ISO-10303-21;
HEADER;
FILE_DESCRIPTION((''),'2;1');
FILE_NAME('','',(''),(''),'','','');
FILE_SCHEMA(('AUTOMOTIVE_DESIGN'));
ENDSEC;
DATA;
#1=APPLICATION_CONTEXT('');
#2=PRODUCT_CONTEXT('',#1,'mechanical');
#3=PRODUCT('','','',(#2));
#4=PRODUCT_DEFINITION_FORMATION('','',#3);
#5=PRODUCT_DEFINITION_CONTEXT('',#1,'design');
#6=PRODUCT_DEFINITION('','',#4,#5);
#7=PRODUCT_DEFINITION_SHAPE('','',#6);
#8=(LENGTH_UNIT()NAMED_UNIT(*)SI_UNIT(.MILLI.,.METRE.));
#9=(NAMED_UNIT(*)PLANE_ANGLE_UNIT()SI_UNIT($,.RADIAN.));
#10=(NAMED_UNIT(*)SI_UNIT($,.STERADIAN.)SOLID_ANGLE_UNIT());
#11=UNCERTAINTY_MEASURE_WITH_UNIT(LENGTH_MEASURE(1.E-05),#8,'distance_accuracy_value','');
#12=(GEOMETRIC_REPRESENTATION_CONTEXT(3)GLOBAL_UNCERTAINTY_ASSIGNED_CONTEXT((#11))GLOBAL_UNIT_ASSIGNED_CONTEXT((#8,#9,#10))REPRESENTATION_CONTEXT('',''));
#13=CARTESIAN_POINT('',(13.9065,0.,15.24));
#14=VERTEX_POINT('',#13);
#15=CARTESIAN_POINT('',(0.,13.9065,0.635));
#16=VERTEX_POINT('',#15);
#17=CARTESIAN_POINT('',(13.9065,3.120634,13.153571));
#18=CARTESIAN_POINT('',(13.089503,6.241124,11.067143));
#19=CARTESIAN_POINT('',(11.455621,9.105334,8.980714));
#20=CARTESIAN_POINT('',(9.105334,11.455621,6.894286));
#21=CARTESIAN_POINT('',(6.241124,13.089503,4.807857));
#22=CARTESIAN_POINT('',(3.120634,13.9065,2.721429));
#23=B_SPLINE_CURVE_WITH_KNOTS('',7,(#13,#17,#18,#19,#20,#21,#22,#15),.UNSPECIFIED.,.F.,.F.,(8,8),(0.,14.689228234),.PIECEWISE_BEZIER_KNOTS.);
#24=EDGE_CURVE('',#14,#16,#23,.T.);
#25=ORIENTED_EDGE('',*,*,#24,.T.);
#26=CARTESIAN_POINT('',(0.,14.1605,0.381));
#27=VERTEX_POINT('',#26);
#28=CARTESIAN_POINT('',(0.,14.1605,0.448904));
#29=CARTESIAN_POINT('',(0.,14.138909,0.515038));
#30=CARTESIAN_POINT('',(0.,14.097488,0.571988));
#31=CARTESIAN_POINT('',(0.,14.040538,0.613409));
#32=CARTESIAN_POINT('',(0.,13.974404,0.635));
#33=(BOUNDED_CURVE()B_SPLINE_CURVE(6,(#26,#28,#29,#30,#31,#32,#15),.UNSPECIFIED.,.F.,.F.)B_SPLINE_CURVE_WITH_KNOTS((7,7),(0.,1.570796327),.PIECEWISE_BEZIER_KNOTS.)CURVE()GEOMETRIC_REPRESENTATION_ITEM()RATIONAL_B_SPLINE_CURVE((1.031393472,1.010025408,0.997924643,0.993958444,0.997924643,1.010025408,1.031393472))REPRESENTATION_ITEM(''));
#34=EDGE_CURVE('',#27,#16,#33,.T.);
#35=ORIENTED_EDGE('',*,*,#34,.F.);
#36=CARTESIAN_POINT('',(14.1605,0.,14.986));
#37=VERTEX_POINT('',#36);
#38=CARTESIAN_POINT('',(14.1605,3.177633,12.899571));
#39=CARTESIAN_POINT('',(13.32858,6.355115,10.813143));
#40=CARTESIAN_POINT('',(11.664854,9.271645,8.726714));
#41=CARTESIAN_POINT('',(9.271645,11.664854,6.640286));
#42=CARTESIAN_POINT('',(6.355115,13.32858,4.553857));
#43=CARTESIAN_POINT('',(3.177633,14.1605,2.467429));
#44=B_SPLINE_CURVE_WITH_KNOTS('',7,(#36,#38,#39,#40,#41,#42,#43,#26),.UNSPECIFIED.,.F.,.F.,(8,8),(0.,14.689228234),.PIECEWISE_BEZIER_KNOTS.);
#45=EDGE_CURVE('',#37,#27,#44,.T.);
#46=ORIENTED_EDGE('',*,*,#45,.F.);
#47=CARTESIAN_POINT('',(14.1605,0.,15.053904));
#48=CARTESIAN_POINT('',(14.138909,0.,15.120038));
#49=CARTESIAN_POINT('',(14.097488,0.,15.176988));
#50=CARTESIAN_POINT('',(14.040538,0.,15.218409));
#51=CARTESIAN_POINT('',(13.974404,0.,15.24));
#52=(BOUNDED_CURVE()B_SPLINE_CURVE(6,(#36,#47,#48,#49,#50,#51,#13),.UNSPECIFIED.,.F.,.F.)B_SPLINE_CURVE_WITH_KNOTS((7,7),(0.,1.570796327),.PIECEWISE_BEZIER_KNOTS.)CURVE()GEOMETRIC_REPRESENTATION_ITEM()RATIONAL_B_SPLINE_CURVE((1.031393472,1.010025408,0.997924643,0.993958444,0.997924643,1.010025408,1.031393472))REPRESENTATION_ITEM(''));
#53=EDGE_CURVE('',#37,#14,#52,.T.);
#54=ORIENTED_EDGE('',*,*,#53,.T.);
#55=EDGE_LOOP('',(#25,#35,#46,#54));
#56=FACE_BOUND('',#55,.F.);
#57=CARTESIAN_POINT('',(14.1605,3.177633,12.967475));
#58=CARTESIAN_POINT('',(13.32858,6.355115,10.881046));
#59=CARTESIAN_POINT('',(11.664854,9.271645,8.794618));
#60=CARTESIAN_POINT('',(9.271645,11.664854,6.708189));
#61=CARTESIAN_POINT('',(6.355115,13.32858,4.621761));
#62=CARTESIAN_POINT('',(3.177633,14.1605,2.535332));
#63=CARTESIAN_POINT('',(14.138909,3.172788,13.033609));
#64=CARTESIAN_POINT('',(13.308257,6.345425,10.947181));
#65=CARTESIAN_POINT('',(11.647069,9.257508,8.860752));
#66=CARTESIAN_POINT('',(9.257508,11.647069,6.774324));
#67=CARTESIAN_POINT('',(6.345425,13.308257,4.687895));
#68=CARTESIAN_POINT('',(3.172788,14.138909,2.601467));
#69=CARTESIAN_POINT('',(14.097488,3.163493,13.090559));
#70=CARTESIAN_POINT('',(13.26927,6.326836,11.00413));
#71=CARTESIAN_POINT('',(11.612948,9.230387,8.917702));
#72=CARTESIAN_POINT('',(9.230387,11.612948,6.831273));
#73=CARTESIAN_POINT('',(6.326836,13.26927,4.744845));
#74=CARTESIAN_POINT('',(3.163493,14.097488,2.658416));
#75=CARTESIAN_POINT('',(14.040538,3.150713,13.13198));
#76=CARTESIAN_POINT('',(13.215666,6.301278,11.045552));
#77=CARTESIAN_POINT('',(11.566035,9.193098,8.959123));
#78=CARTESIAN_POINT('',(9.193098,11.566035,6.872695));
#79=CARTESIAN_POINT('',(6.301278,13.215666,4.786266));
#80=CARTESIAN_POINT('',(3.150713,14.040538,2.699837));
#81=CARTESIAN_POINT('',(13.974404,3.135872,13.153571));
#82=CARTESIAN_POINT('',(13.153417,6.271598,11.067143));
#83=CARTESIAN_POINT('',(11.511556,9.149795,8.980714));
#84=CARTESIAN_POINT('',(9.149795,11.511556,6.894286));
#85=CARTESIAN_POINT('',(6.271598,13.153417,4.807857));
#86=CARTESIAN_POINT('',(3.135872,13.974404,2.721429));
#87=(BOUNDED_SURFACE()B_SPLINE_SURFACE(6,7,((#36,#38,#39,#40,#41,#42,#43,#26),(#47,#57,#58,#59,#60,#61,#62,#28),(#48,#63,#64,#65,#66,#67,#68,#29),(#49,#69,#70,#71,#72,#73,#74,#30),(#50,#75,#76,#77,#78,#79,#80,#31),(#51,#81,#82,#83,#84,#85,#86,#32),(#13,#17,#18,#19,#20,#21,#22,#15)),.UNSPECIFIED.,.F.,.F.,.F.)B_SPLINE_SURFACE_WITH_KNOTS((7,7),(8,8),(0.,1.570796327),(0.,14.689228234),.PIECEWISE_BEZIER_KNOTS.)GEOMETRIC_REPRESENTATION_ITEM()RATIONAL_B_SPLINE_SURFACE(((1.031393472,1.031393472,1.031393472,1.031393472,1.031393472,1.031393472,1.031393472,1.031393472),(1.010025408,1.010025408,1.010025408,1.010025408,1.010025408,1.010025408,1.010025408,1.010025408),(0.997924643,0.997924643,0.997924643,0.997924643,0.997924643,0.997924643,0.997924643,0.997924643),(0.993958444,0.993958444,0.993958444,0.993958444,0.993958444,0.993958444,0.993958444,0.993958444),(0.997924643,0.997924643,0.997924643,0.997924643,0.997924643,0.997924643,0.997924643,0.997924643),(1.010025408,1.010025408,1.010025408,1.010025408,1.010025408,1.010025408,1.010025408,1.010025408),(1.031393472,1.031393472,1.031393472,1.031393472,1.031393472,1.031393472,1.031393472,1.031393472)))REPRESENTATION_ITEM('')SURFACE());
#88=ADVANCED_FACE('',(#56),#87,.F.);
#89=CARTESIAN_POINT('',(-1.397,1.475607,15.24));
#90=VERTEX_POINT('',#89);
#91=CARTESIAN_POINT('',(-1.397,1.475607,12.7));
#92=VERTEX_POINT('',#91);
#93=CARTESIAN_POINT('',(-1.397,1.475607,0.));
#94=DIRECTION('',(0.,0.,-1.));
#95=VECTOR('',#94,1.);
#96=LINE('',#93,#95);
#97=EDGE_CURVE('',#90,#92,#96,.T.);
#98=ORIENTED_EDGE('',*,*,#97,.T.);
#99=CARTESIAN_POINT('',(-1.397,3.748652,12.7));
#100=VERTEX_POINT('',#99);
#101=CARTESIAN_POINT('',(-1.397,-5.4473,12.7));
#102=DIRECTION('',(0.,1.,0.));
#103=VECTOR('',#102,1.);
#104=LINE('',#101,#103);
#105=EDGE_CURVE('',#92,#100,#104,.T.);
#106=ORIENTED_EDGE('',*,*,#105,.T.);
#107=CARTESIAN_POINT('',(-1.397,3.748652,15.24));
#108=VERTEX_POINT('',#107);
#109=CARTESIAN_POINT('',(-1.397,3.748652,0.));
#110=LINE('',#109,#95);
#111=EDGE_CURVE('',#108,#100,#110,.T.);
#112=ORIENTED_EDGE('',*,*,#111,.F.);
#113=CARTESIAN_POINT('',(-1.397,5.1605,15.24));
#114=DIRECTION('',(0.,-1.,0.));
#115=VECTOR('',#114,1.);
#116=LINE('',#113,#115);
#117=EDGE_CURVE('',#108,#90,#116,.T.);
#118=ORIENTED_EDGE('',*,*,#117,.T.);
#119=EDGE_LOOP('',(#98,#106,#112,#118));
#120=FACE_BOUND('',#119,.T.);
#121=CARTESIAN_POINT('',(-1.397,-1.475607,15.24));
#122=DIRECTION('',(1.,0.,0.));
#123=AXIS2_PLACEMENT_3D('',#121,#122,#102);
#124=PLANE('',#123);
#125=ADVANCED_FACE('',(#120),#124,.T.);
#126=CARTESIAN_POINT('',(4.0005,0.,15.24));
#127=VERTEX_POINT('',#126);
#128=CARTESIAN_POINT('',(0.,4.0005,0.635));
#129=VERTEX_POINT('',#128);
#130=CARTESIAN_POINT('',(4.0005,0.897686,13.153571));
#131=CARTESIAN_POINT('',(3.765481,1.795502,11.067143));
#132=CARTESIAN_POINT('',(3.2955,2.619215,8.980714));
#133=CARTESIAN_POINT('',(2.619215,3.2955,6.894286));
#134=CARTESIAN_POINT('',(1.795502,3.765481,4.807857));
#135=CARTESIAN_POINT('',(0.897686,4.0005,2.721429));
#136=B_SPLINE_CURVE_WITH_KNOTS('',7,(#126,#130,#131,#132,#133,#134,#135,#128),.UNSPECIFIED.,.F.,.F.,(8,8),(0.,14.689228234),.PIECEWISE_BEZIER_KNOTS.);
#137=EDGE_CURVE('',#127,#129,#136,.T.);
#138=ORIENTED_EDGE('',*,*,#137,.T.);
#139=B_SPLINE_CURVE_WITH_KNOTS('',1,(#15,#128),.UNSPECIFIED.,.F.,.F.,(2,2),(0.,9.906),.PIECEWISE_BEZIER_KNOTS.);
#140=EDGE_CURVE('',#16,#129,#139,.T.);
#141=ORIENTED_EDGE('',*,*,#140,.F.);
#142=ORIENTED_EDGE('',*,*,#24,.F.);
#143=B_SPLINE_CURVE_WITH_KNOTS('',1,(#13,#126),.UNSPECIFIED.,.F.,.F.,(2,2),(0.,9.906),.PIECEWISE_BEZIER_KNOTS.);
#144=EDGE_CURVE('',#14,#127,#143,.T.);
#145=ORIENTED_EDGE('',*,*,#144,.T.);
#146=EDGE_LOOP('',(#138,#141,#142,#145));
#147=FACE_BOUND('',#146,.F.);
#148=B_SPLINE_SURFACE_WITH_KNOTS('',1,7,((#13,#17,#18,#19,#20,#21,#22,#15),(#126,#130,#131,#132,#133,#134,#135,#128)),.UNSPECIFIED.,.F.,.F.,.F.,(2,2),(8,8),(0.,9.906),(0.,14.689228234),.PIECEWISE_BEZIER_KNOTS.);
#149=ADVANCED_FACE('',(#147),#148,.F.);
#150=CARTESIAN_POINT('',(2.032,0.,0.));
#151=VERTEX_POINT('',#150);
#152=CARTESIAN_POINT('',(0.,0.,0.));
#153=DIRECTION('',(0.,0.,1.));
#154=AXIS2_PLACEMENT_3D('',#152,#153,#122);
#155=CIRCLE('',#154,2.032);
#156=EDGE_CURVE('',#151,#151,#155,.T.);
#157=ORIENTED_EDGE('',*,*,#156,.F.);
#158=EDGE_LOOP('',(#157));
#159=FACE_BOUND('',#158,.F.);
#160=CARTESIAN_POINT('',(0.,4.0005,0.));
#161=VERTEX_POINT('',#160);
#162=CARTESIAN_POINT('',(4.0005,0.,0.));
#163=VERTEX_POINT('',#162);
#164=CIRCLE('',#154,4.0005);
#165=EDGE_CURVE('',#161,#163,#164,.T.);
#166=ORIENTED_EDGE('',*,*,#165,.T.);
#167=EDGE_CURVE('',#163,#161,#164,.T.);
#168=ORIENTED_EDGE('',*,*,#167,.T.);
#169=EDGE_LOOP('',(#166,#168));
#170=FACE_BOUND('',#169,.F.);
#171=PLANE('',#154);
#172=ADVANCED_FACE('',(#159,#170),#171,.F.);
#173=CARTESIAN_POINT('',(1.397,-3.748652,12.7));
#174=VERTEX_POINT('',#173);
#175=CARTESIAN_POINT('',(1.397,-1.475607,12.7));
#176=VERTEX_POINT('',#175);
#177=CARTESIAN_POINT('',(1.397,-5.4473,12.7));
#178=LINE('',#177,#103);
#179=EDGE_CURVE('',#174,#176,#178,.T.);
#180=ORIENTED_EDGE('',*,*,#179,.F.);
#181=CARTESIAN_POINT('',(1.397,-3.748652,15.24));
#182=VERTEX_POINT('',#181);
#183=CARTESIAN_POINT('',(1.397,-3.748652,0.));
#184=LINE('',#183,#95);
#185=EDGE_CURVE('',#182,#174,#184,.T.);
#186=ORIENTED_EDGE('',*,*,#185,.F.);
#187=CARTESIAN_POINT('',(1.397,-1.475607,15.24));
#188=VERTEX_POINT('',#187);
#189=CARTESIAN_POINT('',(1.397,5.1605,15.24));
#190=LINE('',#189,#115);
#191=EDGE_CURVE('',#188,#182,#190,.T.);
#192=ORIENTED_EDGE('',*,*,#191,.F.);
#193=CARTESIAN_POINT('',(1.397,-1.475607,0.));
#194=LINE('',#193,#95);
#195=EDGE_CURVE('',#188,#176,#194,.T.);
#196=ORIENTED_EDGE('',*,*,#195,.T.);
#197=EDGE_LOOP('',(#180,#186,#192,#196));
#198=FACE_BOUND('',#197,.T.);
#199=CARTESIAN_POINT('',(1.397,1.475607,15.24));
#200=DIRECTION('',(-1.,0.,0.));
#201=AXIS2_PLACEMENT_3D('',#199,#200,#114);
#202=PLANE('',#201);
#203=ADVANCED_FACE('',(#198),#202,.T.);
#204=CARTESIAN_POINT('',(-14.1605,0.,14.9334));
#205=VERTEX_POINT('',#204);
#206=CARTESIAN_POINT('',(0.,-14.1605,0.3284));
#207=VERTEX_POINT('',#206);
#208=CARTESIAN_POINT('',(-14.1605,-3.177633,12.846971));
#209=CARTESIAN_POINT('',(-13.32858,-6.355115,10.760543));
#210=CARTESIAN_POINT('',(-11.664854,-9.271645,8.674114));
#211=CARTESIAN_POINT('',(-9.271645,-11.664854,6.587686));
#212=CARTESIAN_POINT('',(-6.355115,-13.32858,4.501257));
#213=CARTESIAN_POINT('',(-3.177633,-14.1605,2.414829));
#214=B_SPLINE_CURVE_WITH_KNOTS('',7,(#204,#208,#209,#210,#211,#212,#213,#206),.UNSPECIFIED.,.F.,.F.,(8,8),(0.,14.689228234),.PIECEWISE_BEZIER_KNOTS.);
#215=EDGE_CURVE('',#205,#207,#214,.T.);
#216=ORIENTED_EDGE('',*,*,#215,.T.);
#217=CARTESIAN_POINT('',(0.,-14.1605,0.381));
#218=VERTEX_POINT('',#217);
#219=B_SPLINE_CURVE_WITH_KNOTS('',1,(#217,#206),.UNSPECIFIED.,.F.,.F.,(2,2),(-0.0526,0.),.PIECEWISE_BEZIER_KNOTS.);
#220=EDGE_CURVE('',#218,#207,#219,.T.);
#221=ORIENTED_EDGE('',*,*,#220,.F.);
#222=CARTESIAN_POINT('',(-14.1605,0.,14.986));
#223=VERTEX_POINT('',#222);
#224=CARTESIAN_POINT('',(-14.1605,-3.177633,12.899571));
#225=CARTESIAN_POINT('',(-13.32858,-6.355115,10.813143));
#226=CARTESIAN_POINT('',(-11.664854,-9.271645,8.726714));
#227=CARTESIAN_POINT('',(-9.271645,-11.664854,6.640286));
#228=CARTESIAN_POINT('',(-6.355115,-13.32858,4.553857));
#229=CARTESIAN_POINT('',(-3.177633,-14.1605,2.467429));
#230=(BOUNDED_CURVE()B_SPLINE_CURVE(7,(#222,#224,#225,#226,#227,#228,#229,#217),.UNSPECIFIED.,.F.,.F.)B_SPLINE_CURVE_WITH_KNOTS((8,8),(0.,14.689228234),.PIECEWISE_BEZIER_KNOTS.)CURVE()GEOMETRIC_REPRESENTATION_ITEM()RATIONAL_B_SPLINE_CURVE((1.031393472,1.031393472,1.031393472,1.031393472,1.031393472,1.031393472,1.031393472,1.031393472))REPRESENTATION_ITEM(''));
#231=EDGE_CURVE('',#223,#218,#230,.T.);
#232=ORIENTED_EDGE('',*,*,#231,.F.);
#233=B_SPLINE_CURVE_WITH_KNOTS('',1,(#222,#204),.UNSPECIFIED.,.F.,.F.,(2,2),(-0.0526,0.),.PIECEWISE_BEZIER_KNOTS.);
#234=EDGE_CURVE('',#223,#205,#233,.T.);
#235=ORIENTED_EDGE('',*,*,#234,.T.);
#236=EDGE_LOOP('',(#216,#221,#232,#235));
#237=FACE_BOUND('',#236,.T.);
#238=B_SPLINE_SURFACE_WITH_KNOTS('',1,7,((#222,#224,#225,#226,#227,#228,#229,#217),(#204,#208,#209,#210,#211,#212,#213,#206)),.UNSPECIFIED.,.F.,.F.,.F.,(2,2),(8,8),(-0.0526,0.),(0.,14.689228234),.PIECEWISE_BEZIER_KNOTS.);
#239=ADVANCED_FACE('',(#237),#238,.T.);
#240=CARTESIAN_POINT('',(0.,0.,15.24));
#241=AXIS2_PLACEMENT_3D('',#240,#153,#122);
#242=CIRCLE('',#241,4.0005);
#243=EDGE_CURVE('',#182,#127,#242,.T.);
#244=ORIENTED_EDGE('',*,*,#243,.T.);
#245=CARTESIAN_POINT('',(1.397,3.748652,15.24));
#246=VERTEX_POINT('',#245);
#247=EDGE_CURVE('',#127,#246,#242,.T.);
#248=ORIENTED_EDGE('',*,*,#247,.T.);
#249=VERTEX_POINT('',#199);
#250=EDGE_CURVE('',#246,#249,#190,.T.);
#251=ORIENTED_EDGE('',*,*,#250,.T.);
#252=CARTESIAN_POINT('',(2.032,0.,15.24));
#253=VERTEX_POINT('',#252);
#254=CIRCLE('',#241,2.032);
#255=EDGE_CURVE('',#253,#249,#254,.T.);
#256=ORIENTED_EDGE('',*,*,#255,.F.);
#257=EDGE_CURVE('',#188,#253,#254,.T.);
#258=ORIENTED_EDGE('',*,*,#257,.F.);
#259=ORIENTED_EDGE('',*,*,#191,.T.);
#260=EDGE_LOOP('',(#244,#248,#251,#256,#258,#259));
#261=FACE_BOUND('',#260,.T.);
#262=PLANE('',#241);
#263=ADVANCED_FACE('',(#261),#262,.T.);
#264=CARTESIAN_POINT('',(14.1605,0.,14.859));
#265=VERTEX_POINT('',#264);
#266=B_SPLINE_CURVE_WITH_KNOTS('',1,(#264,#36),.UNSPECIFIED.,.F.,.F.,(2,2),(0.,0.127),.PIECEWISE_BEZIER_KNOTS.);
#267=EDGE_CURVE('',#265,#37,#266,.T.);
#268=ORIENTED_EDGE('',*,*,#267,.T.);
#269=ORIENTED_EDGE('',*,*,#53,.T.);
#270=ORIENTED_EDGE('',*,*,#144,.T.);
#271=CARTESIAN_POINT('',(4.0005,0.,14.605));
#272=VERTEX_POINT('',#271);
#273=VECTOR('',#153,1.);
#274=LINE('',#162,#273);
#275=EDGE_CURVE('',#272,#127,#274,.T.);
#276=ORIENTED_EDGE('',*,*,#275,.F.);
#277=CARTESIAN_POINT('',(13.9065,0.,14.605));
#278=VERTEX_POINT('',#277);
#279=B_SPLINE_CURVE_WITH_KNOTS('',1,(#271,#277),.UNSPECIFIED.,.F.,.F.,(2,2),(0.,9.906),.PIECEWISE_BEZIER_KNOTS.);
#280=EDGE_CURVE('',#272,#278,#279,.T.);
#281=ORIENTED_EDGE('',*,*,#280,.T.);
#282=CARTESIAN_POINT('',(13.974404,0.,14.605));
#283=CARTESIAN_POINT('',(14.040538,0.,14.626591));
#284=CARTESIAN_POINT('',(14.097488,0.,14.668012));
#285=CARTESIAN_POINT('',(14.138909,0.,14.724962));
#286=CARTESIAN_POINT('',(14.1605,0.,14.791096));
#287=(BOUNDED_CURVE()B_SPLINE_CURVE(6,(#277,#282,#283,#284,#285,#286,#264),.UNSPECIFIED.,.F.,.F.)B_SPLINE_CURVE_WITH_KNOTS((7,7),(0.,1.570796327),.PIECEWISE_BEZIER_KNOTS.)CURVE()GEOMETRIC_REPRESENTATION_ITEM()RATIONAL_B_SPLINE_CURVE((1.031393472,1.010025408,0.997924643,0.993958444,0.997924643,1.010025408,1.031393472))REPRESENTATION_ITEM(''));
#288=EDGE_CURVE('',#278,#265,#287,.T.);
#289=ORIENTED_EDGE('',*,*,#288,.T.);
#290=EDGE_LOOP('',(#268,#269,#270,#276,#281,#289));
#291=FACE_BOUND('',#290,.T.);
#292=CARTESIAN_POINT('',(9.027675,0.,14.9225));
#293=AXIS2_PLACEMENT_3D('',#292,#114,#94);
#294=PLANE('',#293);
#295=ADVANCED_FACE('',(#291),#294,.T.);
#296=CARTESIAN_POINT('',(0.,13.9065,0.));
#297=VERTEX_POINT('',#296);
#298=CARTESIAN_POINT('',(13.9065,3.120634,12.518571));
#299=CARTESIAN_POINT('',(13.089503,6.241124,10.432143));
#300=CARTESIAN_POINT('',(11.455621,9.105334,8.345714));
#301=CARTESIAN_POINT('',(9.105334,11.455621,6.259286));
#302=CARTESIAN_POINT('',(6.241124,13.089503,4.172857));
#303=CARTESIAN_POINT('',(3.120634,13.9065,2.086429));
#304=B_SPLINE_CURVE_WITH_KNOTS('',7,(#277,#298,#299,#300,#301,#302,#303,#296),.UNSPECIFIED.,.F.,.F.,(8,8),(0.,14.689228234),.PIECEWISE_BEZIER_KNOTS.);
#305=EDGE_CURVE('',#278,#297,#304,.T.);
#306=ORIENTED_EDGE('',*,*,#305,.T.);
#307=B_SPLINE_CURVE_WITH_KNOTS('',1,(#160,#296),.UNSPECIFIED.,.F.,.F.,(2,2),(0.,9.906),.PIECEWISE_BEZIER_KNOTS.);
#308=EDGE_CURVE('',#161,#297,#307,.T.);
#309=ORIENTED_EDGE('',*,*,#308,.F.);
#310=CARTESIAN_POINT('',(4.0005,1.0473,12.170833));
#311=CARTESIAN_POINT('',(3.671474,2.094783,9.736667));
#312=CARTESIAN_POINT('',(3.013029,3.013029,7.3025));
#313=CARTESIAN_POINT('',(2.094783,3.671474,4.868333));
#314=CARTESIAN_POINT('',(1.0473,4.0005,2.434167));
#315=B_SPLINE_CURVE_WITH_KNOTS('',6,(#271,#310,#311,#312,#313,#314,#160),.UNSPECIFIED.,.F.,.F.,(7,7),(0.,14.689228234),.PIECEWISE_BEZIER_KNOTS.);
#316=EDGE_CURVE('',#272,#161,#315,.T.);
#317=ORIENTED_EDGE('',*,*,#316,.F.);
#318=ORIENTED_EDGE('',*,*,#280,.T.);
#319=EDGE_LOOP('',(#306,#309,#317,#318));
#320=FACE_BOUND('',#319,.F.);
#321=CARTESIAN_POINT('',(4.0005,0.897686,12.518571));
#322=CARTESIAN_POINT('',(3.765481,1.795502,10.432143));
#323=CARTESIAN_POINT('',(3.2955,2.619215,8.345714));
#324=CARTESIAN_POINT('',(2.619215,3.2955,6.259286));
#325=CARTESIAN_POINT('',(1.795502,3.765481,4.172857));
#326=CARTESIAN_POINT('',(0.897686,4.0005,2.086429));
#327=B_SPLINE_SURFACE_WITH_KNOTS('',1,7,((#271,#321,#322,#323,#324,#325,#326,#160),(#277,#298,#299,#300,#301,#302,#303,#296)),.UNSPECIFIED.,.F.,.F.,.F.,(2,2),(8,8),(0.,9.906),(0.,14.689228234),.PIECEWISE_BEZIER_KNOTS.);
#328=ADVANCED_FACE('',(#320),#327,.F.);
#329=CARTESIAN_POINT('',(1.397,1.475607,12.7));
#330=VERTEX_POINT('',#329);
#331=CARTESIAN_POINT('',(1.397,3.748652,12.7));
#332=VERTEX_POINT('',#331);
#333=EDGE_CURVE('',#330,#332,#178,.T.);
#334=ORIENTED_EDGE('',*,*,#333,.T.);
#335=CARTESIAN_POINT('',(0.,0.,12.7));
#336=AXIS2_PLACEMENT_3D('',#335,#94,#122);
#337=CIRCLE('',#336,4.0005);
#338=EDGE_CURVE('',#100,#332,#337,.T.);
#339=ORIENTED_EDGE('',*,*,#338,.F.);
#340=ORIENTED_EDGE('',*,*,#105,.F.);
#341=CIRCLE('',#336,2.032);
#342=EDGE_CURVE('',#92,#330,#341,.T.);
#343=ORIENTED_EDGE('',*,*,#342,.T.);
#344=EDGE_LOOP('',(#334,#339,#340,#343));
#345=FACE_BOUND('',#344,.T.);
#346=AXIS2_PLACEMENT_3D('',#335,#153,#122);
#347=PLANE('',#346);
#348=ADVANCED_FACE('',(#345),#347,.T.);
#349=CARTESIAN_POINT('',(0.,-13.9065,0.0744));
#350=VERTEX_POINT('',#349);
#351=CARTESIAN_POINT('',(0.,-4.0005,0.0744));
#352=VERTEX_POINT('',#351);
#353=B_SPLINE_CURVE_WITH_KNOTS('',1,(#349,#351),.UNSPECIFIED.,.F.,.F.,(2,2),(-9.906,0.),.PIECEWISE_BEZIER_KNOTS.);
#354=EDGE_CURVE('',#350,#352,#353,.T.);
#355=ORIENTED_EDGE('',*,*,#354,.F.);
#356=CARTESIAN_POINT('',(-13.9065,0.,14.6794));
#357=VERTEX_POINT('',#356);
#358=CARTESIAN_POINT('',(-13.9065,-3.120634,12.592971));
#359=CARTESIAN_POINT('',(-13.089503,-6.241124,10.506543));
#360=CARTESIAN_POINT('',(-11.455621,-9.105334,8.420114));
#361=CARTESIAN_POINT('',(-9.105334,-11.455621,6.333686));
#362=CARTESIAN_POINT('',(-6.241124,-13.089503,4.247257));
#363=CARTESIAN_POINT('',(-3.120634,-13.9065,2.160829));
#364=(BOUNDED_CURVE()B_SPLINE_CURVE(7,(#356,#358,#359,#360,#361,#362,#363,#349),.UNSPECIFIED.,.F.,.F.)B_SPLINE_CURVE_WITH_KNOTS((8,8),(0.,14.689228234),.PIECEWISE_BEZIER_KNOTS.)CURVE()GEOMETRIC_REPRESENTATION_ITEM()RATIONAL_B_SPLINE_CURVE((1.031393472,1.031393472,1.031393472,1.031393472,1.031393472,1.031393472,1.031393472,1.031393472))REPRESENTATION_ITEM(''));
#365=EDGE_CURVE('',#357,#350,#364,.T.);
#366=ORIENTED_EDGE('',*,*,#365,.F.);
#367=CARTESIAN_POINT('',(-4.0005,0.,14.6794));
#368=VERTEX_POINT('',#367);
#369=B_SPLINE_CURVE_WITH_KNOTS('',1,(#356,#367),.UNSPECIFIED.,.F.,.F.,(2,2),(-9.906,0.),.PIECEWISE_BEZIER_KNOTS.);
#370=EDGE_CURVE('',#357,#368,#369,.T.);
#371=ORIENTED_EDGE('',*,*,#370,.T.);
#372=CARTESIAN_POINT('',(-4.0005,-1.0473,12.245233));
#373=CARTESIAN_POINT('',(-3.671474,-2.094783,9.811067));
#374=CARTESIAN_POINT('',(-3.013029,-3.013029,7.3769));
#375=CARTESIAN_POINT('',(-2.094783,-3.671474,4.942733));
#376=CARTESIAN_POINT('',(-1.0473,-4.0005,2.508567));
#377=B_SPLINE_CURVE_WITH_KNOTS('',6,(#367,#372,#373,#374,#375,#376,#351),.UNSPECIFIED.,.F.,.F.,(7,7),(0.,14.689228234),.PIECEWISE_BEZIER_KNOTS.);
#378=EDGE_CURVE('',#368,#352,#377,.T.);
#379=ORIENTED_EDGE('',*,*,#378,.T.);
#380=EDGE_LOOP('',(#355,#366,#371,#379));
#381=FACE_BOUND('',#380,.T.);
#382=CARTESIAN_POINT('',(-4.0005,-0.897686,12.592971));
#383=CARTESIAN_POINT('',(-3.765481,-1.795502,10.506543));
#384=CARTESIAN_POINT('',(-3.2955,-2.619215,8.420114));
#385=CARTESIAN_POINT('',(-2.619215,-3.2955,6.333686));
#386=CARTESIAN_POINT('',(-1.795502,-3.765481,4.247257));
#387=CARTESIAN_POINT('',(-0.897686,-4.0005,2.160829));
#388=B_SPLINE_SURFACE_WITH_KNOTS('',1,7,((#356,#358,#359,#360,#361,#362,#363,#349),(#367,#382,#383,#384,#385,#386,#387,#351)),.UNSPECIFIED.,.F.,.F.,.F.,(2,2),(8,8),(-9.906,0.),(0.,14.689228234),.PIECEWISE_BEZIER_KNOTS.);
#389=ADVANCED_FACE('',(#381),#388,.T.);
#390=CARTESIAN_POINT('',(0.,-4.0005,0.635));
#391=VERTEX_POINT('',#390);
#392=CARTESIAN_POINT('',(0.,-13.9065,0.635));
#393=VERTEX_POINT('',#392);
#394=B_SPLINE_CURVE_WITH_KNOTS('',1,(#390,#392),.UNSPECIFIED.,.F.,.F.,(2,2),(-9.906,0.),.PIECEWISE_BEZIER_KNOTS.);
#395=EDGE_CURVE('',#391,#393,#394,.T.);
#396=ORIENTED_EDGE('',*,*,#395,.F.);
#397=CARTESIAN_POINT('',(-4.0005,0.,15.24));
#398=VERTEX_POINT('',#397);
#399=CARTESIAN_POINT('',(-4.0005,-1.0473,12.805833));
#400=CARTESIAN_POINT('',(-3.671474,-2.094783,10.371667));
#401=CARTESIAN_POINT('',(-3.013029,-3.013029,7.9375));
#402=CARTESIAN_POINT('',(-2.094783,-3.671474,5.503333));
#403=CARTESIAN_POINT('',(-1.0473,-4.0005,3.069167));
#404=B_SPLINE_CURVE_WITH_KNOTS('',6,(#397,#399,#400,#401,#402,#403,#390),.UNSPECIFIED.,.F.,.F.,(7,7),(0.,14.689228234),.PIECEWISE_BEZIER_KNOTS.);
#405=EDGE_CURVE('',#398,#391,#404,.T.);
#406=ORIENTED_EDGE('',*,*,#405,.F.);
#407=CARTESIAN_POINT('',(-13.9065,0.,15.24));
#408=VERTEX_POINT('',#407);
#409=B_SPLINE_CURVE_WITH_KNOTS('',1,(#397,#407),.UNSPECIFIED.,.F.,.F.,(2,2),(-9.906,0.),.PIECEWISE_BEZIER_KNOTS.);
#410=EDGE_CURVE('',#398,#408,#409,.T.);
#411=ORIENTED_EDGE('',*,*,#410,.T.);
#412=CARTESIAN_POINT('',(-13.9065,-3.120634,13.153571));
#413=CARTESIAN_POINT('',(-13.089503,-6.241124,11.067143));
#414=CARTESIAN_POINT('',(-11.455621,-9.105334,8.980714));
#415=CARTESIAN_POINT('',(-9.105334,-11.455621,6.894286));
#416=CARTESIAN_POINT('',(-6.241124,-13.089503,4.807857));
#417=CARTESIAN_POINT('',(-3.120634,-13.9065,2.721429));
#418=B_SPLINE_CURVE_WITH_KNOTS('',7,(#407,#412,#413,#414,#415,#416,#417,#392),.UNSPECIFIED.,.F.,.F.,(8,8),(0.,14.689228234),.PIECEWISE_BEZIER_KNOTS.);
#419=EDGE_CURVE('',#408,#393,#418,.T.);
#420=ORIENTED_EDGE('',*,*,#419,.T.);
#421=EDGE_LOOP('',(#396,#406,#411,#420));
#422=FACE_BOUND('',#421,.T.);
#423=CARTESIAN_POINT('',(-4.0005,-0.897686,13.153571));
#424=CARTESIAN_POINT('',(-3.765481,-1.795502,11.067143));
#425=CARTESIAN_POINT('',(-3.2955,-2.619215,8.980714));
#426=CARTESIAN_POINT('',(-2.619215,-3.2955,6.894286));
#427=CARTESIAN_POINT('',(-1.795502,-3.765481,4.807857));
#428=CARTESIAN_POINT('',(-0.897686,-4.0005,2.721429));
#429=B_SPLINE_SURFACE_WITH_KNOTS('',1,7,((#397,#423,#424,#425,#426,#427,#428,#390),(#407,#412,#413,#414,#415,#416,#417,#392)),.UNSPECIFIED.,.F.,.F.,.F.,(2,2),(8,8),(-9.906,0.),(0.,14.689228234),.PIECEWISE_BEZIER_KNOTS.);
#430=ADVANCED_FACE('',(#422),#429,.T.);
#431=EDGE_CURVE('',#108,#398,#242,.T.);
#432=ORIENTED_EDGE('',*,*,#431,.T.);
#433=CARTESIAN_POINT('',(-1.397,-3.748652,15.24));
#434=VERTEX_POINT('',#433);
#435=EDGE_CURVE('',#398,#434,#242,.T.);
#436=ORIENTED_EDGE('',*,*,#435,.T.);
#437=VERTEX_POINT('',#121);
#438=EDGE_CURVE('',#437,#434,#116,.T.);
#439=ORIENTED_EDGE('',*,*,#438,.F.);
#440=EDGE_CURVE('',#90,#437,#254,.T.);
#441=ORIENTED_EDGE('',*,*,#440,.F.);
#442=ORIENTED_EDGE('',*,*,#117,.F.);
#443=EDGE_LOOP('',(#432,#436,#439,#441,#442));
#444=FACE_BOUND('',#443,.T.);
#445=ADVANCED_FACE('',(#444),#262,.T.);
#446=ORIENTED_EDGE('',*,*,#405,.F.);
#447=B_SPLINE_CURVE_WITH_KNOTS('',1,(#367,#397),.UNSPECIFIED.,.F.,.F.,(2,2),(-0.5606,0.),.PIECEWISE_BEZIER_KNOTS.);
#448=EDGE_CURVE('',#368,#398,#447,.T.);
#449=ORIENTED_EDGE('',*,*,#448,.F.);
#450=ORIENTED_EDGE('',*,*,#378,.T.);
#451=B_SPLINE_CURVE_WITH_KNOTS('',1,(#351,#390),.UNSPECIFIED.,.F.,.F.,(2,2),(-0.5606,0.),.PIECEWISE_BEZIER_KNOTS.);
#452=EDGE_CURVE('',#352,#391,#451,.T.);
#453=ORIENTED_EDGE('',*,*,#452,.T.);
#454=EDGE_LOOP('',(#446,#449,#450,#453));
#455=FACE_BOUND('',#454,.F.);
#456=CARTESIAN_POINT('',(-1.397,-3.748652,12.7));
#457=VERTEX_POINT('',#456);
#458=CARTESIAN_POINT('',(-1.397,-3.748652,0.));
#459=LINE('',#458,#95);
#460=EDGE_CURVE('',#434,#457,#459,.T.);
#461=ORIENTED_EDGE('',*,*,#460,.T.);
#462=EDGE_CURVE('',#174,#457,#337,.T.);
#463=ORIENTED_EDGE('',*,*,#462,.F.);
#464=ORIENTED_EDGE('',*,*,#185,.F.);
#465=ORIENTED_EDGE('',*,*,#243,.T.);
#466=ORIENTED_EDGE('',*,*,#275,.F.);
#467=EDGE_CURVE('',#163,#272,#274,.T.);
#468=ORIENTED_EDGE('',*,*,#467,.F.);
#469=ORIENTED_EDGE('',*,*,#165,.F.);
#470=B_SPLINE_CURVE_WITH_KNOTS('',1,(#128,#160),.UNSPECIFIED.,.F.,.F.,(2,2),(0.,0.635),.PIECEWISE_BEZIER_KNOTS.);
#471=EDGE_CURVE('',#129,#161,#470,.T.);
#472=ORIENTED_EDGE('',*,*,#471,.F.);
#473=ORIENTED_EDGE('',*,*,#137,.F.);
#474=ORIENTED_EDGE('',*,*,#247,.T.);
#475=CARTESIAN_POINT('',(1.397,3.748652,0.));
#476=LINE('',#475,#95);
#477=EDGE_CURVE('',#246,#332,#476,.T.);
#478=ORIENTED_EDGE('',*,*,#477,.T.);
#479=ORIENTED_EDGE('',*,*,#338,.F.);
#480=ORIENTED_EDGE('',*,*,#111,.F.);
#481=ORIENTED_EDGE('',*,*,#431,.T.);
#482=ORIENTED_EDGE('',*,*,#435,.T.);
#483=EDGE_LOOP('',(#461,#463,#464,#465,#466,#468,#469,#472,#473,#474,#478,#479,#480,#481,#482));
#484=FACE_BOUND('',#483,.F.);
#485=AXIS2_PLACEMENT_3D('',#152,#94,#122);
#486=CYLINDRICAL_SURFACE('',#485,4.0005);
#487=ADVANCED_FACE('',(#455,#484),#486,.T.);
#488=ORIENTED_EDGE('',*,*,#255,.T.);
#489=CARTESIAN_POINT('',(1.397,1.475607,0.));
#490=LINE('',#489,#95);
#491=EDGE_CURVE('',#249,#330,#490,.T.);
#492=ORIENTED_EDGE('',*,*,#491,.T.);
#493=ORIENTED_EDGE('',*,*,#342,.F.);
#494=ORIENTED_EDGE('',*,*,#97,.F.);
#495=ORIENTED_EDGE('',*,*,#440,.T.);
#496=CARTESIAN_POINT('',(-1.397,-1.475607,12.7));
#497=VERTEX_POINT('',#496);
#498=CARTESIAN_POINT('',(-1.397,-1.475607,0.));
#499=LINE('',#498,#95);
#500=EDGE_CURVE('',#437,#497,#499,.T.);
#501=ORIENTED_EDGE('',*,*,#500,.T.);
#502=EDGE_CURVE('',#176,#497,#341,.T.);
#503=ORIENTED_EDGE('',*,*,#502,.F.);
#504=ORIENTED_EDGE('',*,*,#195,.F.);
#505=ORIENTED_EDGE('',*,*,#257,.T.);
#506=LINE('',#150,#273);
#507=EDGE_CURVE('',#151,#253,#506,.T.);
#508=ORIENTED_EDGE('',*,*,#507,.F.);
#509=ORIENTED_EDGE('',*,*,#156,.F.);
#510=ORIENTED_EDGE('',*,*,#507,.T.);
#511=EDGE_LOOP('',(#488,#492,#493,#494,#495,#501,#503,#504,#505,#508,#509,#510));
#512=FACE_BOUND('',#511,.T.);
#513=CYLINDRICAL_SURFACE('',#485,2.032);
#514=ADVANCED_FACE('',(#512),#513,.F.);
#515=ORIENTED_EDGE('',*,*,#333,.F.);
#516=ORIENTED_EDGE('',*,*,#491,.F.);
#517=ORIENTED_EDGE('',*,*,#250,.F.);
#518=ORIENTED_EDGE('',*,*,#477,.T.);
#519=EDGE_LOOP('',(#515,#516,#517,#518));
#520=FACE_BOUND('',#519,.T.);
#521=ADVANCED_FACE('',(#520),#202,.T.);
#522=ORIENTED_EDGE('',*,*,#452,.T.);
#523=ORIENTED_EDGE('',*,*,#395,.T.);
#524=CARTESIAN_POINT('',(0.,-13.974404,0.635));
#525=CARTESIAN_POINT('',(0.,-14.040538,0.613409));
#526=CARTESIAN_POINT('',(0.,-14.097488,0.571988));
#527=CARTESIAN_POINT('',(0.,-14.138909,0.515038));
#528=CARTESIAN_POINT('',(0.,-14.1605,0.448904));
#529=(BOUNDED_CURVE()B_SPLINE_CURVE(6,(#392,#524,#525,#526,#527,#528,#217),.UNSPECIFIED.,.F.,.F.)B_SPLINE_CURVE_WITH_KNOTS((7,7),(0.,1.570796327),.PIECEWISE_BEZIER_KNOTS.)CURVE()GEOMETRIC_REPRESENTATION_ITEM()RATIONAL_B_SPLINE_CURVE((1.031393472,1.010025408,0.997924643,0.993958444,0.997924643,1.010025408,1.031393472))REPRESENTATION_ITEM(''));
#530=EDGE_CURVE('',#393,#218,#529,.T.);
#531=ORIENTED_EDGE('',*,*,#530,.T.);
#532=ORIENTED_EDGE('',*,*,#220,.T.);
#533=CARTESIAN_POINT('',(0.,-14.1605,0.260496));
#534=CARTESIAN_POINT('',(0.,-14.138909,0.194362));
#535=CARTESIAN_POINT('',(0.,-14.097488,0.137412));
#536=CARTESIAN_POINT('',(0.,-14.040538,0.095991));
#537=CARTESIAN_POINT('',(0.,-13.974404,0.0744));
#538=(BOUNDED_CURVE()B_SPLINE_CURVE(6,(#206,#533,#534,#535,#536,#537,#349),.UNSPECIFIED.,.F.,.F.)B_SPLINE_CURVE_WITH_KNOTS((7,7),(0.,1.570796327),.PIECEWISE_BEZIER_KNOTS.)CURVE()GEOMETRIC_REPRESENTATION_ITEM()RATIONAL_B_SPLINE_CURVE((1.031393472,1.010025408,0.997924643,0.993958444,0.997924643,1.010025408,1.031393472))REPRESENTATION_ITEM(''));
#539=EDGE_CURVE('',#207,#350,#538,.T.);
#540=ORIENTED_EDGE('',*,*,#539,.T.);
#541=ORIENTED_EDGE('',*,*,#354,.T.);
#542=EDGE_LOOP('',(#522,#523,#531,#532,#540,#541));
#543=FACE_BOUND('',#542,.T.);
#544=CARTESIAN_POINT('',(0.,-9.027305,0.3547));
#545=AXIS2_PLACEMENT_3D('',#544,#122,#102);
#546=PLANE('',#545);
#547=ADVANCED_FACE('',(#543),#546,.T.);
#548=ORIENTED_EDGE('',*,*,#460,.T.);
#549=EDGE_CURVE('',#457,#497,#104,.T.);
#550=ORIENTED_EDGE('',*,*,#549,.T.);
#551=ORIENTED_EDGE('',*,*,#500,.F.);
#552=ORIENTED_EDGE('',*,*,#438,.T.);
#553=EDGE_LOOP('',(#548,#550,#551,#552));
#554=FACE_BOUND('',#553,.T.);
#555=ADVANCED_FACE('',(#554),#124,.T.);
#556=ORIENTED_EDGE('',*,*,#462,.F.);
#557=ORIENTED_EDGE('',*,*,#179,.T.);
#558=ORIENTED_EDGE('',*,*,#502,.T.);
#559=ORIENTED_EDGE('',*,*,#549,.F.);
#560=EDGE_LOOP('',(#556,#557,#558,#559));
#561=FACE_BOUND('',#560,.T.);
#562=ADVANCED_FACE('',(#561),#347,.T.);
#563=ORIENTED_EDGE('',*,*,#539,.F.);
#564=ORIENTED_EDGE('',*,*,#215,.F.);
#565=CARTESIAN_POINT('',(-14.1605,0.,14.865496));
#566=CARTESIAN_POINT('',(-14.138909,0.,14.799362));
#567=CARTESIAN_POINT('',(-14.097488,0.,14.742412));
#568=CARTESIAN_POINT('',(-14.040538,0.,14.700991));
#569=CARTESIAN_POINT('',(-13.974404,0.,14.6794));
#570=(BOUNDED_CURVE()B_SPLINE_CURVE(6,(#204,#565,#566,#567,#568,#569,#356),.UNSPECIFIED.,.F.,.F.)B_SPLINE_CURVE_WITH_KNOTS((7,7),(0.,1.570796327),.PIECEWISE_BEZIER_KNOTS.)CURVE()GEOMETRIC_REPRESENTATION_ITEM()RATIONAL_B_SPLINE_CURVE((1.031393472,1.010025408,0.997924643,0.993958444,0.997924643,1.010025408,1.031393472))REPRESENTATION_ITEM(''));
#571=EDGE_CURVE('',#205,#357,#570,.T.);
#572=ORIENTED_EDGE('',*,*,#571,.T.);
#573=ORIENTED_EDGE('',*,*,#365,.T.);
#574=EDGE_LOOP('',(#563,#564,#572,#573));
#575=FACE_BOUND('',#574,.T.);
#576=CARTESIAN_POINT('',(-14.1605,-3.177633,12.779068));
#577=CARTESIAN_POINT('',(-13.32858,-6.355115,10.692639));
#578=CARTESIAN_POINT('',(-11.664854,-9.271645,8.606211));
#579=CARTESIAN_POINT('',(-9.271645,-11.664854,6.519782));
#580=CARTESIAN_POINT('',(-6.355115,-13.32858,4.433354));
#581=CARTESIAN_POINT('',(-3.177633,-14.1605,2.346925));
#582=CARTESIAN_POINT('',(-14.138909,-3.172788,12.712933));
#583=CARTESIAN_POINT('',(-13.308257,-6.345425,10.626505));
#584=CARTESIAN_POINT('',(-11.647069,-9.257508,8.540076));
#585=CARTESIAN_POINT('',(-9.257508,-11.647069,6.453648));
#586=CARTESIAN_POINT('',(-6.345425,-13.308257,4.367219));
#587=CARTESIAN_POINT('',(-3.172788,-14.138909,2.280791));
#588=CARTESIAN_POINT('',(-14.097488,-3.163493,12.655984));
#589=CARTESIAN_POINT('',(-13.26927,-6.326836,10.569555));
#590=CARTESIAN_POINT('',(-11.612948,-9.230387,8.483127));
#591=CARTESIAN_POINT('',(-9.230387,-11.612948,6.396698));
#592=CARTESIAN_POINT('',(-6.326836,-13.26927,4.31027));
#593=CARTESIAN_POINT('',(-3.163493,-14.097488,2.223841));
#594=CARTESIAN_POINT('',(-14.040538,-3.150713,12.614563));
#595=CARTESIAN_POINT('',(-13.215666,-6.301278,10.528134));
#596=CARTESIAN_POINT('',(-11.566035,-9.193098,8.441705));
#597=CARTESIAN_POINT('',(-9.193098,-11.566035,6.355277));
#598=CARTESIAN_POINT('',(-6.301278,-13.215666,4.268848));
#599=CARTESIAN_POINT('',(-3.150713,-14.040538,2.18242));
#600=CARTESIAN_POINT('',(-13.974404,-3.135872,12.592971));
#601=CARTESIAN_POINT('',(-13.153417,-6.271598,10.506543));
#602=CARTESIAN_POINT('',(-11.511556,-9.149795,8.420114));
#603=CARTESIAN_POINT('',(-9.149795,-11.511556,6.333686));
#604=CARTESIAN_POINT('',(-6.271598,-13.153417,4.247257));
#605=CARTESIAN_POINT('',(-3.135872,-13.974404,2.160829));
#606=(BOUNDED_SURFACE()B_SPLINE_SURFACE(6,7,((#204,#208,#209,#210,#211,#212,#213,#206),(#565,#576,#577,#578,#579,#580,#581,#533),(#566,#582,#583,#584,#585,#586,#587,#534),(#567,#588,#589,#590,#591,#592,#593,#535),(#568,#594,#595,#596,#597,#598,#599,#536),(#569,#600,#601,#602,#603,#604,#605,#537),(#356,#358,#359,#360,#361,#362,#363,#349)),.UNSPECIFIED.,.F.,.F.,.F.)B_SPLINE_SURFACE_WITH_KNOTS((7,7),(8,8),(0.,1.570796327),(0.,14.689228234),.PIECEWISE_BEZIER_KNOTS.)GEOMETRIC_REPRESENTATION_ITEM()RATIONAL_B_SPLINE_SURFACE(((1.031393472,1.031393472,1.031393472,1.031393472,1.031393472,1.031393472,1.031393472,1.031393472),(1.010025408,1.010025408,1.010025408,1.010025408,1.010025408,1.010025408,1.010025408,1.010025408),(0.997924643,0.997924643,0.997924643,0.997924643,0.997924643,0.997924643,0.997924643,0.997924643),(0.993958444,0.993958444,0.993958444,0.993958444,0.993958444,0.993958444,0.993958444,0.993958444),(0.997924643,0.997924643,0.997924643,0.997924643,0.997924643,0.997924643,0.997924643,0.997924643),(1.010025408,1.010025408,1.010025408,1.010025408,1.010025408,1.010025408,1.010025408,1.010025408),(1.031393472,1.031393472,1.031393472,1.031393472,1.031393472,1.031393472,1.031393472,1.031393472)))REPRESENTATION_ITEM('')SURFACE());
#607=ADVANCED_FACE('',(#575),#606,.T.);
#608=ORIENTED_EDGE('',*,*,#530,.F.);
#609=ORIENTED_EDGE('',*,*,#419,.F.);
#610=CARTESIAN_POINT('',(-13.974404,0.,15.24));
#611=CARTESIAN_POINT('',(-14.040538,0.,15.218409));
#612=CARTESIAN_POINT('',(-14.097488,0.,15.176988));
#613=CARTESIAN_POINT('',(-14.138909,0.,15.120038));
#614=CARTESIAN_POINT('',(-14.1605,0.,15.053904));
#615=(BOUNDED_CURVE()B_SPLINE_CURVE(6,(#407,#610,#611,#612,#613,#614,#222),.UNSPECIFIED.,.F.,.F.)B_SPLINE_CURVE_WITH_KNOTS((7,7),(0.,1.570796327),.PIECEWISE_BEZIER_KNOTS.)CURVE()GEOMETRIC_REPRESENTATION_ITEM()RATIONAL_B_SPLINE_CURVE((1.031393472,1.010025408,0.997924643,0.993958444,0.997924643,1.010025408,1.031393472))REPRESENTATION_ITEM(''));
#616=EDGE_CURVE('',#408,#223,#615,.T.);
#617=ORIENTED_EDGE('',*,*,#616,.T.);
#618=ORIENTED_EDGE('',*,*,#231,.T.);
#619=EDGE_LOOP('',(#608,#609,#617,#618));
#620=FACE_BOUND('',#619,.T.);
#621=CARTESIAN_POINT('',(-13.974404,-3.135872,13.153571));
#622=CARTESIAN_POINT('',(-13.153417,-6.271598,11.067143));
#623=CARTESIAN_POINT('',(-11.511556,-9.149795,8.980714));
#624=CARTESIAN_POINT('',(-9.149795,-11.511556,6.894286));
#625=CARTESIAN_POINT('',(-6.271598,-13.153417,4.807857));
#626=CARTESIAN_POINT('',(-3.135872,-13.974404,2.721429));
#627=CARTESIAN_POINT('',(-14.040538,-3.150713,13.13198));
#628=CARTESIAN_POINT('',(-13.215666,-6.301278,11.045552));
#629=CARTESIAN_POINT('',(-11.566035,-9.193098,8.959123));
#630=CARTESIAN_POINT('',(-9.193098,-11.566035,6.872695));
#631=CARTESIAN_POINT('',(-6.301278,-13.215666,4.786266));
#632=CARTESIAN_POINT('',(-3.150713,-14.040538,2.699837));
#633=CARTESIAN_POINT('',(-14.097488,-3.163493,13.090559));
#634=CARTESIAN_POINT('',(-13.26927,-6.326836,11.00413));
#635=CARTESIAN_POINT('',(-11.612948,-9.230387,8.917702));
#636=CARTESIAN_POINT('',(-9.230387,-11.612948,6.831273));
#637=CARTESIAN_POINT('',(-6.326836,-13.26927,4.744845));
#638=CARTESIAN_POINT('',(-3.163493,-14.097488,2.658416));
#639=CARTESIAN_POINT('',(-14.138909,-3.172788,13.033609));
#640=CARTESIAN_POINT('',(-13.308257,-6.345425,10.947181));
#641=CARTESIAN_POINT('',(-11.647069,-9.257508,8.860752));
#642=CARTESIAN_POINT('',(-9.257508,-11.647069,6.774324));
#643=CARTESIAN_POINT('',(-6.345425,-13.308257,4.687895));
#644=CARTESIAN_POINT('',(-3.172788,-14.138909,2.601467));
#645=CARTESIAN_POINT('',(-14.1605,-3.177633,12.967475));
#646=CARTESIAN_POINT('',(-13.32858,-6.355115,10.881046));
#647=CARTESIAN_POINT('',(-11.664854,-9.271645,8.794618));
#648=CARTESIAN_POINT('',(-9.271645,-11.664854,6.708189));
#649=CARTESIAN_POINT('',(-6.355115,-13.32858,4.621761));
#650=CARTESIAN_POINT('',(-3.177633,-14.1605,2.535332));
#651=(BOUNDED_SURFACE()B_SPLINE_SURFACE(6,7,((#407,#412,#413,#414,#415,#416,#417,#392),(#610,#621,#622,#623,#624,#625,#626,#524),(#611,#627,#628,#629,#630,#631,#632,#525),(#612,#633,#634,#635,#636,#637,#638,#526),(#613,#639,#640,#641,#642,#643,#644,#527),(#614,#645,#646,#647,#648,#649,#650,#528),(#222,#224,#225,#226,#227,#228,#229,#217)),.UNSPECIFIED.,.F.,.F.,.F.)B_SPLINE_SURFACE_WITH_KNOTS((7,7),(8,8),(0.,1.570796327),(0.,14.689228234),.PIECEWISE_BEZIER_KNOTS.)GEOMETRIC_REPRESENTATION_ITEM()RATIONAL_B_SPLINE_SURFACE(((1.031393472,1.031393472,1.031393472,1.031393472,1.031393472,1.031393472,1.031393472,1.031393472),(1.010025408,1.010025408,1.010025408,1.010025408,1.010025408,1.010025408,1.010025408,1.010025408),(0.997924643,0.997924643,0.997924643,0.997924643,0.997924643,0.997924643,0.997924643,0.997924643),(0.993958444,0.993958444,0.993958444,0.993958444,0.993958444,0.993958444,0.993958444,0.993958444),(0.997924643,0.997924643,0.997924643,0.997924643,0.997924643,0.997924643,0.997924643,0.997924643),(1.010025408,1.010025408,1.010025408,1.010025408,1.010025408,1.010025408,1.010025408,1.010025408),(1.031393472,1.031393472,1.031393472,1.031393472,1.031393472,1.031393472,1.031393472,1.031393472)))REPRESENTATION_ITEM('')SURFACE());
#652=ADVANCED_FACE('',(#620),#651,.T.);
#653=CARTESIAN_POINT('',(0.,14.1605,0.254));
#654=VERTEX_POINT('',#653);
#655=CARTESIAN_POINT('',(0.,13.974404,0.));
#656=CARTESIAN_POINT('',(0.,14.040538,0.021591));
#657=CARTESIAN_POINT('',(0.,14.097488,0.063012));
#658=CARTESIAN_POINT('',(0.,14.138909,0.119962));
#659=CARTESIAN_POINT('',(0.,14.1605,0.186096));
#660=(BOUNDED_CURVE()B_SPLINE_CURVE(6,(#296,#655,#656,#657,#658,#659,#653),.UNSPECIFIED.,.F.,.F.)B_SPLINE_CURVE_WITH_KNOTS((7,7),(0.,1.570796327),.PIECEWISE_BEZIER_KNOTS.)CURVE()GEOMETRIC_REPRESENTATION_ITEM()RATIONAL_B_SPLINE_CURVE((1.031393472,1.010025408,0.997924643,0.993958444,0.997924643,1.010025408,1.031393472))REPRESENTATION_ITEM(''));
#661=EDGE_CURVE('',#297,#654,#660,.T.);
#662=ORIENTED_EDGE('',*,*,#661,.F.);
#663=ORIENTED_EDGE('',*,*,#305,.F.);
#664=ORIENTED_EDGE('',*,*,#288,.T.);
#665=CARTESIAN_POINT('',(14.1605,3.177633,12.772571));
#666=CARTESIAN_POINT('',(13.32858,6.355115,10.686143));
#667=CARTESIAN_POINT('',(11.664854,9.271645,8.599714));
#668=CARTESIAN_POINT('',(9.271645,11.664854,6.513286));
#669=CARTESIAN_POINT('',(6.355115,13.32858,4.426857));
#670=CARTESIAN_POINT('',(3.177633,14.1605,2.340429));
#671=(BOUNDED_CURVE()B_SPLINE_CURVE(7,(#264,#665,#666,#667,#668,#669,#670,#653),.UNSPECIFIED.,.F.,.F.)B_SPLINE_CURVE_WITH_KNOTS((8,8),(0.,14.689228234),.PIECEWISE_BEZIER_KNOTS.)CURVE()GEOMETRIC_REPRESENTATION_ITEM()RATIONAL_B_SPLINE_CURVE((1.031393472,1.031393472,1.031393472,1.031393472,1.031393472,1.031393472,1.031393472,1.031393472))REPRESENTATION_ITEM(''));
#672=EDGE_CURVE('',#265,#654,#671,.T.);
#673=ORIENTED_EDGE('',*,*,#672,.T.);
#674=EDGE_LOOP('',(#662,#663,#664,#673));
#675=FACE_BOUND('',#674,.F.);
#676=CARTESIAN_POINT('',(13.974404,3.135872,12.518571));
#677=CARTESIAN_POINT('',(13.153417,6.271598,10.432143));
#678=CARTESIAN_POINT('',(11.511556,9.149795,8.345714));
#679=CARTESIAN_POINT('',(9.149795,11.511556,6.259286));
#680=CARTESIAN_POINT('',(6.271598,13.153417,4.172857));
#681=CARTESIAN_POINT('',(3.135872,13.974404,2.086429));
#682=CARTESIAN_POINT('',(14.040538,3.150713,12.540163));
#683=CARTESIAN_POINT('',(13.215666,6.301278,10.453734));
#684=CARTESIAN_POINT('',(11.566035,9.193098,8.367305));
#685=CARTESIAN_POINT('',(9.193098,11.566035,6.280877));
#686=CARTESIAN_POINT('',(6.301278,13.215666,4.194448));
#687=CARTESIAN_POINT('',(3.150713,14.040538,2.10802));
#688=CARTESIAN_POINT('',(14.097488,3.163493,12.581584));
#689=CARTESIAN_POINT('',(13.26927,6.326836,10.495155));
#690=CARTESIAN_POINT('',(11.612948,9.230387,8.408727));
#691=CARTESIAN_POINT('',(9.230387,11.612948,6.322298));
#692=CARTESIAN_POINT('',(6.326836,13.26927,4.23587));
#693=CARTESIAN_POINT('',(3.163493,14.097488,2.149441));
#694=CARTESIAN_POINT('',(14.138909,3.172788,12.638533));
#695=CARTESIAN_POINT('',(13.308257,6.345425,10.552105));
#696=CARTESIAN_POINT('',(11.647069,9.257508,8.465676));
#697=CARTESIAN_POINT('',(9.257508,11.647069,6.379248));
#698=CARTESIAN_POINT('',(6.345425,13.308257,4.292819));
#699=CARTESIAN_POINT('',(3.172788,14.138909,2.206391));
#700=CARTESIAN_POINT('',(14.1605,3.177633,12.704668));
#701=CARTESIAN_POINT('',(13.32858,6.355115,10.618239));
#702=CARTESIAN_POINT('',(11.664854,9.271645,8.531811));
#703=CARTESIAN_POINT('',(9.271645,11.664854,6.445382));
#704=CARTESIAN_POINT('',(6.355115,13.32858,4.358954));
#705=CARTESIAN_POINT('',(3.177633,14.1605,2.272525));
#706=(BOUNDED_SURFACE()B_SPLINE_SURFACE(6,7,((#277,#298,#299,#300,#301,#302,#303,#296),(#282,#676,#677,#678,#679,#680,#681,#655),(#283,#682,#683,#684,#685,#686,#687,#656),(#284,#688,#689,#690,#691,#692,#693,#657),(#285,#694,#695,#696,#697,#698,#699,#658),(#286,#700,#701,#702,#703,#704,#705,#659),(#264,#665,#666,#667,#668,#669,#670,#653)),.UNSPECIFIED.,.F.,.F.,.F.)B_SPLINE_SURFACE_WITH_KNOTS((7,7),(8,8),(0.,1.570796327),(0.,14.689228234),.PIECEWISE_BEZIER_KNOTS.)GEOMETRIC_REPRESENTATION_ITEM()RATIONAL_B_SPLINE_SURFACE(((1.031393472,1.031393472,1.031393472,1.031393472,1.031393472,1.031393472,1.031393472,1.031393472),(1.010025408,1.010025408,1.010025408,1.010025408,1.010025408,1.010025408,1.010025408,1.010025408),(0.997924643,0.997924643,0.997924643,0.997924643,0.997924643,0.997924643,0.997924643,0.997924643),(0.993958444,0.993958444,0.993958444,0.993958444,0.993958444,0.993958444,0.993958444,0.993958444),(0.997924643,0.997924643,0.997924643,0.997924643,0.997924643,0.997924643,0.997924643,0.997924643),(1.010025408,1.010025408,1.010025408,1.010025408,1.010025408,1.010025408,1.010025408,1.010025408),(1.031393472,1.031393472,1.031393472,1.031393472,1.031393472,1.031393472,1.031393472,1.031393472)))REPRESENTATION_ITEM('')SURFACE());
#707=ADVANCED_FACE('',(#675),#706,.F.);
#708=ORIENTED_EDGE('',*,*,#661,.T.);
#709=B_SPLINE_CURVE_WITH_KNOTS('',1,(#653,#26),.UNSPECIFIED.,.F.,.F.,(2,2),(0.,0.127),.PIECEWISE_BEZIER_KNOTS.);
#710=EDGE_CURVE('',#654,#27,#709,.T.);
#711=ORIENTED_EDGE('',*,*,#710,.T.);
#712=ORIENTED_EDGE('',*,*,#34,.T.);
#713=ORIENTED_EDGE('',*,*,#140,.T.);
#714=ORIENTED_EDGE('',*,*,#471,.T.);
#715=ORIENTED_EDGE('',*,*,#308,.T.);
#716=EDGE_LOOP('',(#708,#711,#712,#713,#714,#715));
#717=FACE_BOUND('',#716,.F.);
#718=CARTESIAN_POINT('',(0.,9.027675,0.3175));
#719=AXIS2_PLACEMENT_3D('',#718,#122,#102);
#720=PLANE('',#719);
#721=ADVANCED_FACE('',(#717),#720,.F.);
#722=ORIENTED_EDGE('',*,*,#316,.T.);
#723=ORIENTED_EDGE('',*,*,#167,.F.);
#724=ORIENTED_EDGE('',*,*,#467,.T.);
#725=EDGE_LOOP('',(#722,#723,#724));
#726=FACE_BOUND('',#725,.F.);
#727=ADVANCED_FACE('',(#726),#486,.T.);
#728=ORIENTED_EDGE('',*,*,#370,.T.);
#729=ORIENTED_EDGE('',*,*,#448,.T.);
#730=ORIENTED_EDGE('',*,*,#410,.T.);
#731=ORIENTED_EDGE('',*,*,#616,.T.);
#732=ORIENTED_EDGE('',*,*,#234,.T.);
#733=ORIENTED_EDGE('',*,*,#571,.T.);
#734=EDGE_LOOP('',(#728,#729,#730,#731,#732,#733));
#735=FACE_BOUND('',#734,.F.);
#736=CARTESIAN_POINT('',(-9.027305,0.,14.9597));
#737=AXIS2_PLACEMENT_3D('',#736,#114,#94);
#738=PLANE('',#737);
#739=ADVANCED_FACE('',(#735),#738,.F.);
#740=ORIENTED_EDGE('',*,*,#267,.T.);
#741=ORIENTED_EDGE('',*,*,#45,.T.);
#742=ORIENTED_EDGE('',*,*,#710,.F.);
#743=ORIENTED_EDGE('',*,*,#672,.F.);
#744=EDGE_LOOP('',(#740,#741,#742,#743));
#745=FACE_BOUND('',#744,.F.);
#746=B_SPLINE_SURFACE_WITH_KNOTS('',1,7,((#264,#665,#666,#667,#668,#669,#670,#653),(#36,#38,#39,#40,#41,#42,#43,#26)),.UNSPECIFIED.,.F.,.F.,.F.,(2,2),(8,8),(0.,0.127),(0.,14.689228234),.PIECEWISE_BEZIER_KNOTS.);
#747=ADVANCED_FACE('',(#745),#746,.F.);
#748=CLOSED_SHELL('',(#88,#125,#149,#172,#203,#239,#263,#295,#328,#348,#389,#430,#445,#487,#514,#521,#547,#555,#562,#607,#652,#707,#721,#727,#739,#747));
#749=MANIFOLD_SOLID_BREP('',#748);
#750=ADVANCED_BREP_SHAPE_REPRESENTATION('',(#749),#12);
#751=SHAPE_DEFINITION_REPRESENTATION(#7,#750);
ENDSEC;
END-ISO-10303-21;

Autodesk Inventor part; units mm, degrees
ref_plane "YZ Plane" through (0, 0, 0) normal (1, 0, 0) x (0, 1, 0)
ref_plane "XZ Plane" through (0, 0, 0) normal (0, 1, 0) x (-1, 0, 0)
sketch "Sketch1" plane through (0, 0, 0) normal (0, 0, 1) x (1, 0, 0)
  circle A0 centre (0, 0) radius 4.0005
  circle A1 centre (0, 0) radius 2.032
  dimension "d0" = 8.001
  dimension "d2" = 4.064
extrude "Extrusion1" add sketch "Sketch1" along normal blind 15.24
sketch "Sketch2" plane through (0, 0, 15.24) normal (0, 0, 1) x (1, 0, 0)
  circle A0 centre (0, 0) radius 2.032 projected
  line L0 (-1.397, 5.1605) -> (1.397, 5.1605)
  line L1 (1.397, 5.1605) -> (1.397, -5.4473)
  line L2 (1.397, -5.4473) -> (-1.397, -5.4473)
  line L3 (-1.397, -5.4473) -> (-1.397, 5.1605)
  point P0 (2.032, 5.1605)
  dimension "d5" = 1.397
  dimension "d6" = 1.397
extrude "Extrusion2" cut sketch "Sketch2" against normal blind 2.54 contours L1 A0 L3 | A0 L3 L0 L1 | L1 L2 L3 A0
ref_plane "Work Plane1" through (0, 0, 0) normal (0, -1, 0) x (0, 0, -1)
sketch "Sketch3" plane through (0, 0, 0) normal (0, -1, 0) x (0, 0, -1)
  line L0 (-15.24, 4.0005) -> (-15.24, 1.397) projected
  line L1 (-15.24, 4.0005) -> (-14.605, 4.0005)
  line L2 (-14.605, 4.0005) -> (-14.605, 13.9065)
  line L3 (-14.859, 14.1605) -> (-14.986, 14.1605)
  line L4 (-15.24, 13.9065) -> (-15.24, 4.0005)
  arc A0 (-14.986, 14.1605) -> (-15.24, 13.9065) centre (-14.986, 13.9065) ccw
  arc A1 (-14.605, 13.9065) -> (-14.859, 14.1605) centre (-14.859, 13.9065) ccw
  line L5 (-15.24, -4.0005) -> (-14.6794, -4.0005)
  line L6 (-14.6794, -4.0005) -> (-14.6794, -13.9065)
  line L7 (-14.9334, -14.1605) -> (-14.986, -14.1605)
  line L8 (-15.24, -13.9065) -> (-15.24, -4.0005)
  arc A2 (-15.24, -13.9065) -> (-14.986, -14.1605) centre (-14.986, -13.9065) ccw
  arc A3 (-14.9334, -14.1605) -> (-14.6794, -13.9065) centre (-14.9334, -13.9065) ccw
  point P0 (0, 0)
  point P1 (1.7022, 0)
  dimension "d10" = 4.0005
  dimension "d12" = 0.635
  dimension "d13" = 10.16
  dimension "d14" = 0.254
  dimension "d15" = 8.001
  dimension "d16" = 8.001
  dimension "d17" = 10.16
  dimension "d18" = 0.254
ref_plane "Work Plane2" through (0, 0, 0) normal (-1, 0, 0) x (0, 0, -1)
sketch "Sketch4" plane through (0, 0, 0) normal (-1, 0, 0) x (0, 0, -1)
  line L0 (0, -4.0005) -> (0, 4.0005) projected
  line L1 (-1.9812, -4.0005) -> (-0.0316, -19.5002)
  line L2 (-2.54, -4.0005) -> (-0.5277, -19.5635)
  line L3 (-1.9812, -4.0005) -> (-2.54, -4.0005)
  line L4 (-0.2432, -19.7828) -> (-0.251, -19.7838)
  arc A0 (-0.5277, -19.5635) -> (-0.2432, -19.7828) centre (-0.2757, -19.5309) ccw
  arc A1 (-0.251, -19.7838) -> (-0.0316, -19.5002) centre (-0.2836, -19.5319) ccw
  line L5 (-1.9812, 4.0005) -> (-0.0317, 19.4994)
  line L6 (-2.54, 4.0005) -> (-0.5818, 19.5686)
  line L7 (-0.2981, 19.7889) -> (-0.252, 19.7831)
  arc A2 (-0.0317, 19.4994) -> (-0.252, 19.7831) centre (-0.2837, 19.5311) ccw
  arc A3 (-0.2981, 19.7889) -> (-0.5818, 19.5686) centre (-0.3298, 19.5369) ccw
  line L8 (-2.54, 4.0005) -> (-1.9812, 4.0005)
  point P0 (0, 0)
  point P1 (0.7046, 0)
  point P2 (0, -19.7514)
  point P3 (0, 19.7514)
  dimension "d25" = 15.875
  dimension "d26" = 0
  dimension "d27" = 1.9812
  dimension "d28" = 0.254
  dimension "d29" = 15.875
  dimension "d30" = 0
  dimension "d31" = 1.9812
  dimension "d32" = 0.254
coil "Coil1" sketch "Sketch3" operation add axis through (0, 0, 0) along (0, 0, -1) pitch 58.42 turns 0.25 hand left contours L4 A0 L3 A1 L2 L1
coil "Coil2" sketch "Sketch3" operation add axis through (0, 0, 0) along (0, 0, -1) pitch 58.42 turns 0.25 hand left contours L5 L6 A3 L7 A2 L8
properties part number "Main Prop" material "ABS Plastic"
